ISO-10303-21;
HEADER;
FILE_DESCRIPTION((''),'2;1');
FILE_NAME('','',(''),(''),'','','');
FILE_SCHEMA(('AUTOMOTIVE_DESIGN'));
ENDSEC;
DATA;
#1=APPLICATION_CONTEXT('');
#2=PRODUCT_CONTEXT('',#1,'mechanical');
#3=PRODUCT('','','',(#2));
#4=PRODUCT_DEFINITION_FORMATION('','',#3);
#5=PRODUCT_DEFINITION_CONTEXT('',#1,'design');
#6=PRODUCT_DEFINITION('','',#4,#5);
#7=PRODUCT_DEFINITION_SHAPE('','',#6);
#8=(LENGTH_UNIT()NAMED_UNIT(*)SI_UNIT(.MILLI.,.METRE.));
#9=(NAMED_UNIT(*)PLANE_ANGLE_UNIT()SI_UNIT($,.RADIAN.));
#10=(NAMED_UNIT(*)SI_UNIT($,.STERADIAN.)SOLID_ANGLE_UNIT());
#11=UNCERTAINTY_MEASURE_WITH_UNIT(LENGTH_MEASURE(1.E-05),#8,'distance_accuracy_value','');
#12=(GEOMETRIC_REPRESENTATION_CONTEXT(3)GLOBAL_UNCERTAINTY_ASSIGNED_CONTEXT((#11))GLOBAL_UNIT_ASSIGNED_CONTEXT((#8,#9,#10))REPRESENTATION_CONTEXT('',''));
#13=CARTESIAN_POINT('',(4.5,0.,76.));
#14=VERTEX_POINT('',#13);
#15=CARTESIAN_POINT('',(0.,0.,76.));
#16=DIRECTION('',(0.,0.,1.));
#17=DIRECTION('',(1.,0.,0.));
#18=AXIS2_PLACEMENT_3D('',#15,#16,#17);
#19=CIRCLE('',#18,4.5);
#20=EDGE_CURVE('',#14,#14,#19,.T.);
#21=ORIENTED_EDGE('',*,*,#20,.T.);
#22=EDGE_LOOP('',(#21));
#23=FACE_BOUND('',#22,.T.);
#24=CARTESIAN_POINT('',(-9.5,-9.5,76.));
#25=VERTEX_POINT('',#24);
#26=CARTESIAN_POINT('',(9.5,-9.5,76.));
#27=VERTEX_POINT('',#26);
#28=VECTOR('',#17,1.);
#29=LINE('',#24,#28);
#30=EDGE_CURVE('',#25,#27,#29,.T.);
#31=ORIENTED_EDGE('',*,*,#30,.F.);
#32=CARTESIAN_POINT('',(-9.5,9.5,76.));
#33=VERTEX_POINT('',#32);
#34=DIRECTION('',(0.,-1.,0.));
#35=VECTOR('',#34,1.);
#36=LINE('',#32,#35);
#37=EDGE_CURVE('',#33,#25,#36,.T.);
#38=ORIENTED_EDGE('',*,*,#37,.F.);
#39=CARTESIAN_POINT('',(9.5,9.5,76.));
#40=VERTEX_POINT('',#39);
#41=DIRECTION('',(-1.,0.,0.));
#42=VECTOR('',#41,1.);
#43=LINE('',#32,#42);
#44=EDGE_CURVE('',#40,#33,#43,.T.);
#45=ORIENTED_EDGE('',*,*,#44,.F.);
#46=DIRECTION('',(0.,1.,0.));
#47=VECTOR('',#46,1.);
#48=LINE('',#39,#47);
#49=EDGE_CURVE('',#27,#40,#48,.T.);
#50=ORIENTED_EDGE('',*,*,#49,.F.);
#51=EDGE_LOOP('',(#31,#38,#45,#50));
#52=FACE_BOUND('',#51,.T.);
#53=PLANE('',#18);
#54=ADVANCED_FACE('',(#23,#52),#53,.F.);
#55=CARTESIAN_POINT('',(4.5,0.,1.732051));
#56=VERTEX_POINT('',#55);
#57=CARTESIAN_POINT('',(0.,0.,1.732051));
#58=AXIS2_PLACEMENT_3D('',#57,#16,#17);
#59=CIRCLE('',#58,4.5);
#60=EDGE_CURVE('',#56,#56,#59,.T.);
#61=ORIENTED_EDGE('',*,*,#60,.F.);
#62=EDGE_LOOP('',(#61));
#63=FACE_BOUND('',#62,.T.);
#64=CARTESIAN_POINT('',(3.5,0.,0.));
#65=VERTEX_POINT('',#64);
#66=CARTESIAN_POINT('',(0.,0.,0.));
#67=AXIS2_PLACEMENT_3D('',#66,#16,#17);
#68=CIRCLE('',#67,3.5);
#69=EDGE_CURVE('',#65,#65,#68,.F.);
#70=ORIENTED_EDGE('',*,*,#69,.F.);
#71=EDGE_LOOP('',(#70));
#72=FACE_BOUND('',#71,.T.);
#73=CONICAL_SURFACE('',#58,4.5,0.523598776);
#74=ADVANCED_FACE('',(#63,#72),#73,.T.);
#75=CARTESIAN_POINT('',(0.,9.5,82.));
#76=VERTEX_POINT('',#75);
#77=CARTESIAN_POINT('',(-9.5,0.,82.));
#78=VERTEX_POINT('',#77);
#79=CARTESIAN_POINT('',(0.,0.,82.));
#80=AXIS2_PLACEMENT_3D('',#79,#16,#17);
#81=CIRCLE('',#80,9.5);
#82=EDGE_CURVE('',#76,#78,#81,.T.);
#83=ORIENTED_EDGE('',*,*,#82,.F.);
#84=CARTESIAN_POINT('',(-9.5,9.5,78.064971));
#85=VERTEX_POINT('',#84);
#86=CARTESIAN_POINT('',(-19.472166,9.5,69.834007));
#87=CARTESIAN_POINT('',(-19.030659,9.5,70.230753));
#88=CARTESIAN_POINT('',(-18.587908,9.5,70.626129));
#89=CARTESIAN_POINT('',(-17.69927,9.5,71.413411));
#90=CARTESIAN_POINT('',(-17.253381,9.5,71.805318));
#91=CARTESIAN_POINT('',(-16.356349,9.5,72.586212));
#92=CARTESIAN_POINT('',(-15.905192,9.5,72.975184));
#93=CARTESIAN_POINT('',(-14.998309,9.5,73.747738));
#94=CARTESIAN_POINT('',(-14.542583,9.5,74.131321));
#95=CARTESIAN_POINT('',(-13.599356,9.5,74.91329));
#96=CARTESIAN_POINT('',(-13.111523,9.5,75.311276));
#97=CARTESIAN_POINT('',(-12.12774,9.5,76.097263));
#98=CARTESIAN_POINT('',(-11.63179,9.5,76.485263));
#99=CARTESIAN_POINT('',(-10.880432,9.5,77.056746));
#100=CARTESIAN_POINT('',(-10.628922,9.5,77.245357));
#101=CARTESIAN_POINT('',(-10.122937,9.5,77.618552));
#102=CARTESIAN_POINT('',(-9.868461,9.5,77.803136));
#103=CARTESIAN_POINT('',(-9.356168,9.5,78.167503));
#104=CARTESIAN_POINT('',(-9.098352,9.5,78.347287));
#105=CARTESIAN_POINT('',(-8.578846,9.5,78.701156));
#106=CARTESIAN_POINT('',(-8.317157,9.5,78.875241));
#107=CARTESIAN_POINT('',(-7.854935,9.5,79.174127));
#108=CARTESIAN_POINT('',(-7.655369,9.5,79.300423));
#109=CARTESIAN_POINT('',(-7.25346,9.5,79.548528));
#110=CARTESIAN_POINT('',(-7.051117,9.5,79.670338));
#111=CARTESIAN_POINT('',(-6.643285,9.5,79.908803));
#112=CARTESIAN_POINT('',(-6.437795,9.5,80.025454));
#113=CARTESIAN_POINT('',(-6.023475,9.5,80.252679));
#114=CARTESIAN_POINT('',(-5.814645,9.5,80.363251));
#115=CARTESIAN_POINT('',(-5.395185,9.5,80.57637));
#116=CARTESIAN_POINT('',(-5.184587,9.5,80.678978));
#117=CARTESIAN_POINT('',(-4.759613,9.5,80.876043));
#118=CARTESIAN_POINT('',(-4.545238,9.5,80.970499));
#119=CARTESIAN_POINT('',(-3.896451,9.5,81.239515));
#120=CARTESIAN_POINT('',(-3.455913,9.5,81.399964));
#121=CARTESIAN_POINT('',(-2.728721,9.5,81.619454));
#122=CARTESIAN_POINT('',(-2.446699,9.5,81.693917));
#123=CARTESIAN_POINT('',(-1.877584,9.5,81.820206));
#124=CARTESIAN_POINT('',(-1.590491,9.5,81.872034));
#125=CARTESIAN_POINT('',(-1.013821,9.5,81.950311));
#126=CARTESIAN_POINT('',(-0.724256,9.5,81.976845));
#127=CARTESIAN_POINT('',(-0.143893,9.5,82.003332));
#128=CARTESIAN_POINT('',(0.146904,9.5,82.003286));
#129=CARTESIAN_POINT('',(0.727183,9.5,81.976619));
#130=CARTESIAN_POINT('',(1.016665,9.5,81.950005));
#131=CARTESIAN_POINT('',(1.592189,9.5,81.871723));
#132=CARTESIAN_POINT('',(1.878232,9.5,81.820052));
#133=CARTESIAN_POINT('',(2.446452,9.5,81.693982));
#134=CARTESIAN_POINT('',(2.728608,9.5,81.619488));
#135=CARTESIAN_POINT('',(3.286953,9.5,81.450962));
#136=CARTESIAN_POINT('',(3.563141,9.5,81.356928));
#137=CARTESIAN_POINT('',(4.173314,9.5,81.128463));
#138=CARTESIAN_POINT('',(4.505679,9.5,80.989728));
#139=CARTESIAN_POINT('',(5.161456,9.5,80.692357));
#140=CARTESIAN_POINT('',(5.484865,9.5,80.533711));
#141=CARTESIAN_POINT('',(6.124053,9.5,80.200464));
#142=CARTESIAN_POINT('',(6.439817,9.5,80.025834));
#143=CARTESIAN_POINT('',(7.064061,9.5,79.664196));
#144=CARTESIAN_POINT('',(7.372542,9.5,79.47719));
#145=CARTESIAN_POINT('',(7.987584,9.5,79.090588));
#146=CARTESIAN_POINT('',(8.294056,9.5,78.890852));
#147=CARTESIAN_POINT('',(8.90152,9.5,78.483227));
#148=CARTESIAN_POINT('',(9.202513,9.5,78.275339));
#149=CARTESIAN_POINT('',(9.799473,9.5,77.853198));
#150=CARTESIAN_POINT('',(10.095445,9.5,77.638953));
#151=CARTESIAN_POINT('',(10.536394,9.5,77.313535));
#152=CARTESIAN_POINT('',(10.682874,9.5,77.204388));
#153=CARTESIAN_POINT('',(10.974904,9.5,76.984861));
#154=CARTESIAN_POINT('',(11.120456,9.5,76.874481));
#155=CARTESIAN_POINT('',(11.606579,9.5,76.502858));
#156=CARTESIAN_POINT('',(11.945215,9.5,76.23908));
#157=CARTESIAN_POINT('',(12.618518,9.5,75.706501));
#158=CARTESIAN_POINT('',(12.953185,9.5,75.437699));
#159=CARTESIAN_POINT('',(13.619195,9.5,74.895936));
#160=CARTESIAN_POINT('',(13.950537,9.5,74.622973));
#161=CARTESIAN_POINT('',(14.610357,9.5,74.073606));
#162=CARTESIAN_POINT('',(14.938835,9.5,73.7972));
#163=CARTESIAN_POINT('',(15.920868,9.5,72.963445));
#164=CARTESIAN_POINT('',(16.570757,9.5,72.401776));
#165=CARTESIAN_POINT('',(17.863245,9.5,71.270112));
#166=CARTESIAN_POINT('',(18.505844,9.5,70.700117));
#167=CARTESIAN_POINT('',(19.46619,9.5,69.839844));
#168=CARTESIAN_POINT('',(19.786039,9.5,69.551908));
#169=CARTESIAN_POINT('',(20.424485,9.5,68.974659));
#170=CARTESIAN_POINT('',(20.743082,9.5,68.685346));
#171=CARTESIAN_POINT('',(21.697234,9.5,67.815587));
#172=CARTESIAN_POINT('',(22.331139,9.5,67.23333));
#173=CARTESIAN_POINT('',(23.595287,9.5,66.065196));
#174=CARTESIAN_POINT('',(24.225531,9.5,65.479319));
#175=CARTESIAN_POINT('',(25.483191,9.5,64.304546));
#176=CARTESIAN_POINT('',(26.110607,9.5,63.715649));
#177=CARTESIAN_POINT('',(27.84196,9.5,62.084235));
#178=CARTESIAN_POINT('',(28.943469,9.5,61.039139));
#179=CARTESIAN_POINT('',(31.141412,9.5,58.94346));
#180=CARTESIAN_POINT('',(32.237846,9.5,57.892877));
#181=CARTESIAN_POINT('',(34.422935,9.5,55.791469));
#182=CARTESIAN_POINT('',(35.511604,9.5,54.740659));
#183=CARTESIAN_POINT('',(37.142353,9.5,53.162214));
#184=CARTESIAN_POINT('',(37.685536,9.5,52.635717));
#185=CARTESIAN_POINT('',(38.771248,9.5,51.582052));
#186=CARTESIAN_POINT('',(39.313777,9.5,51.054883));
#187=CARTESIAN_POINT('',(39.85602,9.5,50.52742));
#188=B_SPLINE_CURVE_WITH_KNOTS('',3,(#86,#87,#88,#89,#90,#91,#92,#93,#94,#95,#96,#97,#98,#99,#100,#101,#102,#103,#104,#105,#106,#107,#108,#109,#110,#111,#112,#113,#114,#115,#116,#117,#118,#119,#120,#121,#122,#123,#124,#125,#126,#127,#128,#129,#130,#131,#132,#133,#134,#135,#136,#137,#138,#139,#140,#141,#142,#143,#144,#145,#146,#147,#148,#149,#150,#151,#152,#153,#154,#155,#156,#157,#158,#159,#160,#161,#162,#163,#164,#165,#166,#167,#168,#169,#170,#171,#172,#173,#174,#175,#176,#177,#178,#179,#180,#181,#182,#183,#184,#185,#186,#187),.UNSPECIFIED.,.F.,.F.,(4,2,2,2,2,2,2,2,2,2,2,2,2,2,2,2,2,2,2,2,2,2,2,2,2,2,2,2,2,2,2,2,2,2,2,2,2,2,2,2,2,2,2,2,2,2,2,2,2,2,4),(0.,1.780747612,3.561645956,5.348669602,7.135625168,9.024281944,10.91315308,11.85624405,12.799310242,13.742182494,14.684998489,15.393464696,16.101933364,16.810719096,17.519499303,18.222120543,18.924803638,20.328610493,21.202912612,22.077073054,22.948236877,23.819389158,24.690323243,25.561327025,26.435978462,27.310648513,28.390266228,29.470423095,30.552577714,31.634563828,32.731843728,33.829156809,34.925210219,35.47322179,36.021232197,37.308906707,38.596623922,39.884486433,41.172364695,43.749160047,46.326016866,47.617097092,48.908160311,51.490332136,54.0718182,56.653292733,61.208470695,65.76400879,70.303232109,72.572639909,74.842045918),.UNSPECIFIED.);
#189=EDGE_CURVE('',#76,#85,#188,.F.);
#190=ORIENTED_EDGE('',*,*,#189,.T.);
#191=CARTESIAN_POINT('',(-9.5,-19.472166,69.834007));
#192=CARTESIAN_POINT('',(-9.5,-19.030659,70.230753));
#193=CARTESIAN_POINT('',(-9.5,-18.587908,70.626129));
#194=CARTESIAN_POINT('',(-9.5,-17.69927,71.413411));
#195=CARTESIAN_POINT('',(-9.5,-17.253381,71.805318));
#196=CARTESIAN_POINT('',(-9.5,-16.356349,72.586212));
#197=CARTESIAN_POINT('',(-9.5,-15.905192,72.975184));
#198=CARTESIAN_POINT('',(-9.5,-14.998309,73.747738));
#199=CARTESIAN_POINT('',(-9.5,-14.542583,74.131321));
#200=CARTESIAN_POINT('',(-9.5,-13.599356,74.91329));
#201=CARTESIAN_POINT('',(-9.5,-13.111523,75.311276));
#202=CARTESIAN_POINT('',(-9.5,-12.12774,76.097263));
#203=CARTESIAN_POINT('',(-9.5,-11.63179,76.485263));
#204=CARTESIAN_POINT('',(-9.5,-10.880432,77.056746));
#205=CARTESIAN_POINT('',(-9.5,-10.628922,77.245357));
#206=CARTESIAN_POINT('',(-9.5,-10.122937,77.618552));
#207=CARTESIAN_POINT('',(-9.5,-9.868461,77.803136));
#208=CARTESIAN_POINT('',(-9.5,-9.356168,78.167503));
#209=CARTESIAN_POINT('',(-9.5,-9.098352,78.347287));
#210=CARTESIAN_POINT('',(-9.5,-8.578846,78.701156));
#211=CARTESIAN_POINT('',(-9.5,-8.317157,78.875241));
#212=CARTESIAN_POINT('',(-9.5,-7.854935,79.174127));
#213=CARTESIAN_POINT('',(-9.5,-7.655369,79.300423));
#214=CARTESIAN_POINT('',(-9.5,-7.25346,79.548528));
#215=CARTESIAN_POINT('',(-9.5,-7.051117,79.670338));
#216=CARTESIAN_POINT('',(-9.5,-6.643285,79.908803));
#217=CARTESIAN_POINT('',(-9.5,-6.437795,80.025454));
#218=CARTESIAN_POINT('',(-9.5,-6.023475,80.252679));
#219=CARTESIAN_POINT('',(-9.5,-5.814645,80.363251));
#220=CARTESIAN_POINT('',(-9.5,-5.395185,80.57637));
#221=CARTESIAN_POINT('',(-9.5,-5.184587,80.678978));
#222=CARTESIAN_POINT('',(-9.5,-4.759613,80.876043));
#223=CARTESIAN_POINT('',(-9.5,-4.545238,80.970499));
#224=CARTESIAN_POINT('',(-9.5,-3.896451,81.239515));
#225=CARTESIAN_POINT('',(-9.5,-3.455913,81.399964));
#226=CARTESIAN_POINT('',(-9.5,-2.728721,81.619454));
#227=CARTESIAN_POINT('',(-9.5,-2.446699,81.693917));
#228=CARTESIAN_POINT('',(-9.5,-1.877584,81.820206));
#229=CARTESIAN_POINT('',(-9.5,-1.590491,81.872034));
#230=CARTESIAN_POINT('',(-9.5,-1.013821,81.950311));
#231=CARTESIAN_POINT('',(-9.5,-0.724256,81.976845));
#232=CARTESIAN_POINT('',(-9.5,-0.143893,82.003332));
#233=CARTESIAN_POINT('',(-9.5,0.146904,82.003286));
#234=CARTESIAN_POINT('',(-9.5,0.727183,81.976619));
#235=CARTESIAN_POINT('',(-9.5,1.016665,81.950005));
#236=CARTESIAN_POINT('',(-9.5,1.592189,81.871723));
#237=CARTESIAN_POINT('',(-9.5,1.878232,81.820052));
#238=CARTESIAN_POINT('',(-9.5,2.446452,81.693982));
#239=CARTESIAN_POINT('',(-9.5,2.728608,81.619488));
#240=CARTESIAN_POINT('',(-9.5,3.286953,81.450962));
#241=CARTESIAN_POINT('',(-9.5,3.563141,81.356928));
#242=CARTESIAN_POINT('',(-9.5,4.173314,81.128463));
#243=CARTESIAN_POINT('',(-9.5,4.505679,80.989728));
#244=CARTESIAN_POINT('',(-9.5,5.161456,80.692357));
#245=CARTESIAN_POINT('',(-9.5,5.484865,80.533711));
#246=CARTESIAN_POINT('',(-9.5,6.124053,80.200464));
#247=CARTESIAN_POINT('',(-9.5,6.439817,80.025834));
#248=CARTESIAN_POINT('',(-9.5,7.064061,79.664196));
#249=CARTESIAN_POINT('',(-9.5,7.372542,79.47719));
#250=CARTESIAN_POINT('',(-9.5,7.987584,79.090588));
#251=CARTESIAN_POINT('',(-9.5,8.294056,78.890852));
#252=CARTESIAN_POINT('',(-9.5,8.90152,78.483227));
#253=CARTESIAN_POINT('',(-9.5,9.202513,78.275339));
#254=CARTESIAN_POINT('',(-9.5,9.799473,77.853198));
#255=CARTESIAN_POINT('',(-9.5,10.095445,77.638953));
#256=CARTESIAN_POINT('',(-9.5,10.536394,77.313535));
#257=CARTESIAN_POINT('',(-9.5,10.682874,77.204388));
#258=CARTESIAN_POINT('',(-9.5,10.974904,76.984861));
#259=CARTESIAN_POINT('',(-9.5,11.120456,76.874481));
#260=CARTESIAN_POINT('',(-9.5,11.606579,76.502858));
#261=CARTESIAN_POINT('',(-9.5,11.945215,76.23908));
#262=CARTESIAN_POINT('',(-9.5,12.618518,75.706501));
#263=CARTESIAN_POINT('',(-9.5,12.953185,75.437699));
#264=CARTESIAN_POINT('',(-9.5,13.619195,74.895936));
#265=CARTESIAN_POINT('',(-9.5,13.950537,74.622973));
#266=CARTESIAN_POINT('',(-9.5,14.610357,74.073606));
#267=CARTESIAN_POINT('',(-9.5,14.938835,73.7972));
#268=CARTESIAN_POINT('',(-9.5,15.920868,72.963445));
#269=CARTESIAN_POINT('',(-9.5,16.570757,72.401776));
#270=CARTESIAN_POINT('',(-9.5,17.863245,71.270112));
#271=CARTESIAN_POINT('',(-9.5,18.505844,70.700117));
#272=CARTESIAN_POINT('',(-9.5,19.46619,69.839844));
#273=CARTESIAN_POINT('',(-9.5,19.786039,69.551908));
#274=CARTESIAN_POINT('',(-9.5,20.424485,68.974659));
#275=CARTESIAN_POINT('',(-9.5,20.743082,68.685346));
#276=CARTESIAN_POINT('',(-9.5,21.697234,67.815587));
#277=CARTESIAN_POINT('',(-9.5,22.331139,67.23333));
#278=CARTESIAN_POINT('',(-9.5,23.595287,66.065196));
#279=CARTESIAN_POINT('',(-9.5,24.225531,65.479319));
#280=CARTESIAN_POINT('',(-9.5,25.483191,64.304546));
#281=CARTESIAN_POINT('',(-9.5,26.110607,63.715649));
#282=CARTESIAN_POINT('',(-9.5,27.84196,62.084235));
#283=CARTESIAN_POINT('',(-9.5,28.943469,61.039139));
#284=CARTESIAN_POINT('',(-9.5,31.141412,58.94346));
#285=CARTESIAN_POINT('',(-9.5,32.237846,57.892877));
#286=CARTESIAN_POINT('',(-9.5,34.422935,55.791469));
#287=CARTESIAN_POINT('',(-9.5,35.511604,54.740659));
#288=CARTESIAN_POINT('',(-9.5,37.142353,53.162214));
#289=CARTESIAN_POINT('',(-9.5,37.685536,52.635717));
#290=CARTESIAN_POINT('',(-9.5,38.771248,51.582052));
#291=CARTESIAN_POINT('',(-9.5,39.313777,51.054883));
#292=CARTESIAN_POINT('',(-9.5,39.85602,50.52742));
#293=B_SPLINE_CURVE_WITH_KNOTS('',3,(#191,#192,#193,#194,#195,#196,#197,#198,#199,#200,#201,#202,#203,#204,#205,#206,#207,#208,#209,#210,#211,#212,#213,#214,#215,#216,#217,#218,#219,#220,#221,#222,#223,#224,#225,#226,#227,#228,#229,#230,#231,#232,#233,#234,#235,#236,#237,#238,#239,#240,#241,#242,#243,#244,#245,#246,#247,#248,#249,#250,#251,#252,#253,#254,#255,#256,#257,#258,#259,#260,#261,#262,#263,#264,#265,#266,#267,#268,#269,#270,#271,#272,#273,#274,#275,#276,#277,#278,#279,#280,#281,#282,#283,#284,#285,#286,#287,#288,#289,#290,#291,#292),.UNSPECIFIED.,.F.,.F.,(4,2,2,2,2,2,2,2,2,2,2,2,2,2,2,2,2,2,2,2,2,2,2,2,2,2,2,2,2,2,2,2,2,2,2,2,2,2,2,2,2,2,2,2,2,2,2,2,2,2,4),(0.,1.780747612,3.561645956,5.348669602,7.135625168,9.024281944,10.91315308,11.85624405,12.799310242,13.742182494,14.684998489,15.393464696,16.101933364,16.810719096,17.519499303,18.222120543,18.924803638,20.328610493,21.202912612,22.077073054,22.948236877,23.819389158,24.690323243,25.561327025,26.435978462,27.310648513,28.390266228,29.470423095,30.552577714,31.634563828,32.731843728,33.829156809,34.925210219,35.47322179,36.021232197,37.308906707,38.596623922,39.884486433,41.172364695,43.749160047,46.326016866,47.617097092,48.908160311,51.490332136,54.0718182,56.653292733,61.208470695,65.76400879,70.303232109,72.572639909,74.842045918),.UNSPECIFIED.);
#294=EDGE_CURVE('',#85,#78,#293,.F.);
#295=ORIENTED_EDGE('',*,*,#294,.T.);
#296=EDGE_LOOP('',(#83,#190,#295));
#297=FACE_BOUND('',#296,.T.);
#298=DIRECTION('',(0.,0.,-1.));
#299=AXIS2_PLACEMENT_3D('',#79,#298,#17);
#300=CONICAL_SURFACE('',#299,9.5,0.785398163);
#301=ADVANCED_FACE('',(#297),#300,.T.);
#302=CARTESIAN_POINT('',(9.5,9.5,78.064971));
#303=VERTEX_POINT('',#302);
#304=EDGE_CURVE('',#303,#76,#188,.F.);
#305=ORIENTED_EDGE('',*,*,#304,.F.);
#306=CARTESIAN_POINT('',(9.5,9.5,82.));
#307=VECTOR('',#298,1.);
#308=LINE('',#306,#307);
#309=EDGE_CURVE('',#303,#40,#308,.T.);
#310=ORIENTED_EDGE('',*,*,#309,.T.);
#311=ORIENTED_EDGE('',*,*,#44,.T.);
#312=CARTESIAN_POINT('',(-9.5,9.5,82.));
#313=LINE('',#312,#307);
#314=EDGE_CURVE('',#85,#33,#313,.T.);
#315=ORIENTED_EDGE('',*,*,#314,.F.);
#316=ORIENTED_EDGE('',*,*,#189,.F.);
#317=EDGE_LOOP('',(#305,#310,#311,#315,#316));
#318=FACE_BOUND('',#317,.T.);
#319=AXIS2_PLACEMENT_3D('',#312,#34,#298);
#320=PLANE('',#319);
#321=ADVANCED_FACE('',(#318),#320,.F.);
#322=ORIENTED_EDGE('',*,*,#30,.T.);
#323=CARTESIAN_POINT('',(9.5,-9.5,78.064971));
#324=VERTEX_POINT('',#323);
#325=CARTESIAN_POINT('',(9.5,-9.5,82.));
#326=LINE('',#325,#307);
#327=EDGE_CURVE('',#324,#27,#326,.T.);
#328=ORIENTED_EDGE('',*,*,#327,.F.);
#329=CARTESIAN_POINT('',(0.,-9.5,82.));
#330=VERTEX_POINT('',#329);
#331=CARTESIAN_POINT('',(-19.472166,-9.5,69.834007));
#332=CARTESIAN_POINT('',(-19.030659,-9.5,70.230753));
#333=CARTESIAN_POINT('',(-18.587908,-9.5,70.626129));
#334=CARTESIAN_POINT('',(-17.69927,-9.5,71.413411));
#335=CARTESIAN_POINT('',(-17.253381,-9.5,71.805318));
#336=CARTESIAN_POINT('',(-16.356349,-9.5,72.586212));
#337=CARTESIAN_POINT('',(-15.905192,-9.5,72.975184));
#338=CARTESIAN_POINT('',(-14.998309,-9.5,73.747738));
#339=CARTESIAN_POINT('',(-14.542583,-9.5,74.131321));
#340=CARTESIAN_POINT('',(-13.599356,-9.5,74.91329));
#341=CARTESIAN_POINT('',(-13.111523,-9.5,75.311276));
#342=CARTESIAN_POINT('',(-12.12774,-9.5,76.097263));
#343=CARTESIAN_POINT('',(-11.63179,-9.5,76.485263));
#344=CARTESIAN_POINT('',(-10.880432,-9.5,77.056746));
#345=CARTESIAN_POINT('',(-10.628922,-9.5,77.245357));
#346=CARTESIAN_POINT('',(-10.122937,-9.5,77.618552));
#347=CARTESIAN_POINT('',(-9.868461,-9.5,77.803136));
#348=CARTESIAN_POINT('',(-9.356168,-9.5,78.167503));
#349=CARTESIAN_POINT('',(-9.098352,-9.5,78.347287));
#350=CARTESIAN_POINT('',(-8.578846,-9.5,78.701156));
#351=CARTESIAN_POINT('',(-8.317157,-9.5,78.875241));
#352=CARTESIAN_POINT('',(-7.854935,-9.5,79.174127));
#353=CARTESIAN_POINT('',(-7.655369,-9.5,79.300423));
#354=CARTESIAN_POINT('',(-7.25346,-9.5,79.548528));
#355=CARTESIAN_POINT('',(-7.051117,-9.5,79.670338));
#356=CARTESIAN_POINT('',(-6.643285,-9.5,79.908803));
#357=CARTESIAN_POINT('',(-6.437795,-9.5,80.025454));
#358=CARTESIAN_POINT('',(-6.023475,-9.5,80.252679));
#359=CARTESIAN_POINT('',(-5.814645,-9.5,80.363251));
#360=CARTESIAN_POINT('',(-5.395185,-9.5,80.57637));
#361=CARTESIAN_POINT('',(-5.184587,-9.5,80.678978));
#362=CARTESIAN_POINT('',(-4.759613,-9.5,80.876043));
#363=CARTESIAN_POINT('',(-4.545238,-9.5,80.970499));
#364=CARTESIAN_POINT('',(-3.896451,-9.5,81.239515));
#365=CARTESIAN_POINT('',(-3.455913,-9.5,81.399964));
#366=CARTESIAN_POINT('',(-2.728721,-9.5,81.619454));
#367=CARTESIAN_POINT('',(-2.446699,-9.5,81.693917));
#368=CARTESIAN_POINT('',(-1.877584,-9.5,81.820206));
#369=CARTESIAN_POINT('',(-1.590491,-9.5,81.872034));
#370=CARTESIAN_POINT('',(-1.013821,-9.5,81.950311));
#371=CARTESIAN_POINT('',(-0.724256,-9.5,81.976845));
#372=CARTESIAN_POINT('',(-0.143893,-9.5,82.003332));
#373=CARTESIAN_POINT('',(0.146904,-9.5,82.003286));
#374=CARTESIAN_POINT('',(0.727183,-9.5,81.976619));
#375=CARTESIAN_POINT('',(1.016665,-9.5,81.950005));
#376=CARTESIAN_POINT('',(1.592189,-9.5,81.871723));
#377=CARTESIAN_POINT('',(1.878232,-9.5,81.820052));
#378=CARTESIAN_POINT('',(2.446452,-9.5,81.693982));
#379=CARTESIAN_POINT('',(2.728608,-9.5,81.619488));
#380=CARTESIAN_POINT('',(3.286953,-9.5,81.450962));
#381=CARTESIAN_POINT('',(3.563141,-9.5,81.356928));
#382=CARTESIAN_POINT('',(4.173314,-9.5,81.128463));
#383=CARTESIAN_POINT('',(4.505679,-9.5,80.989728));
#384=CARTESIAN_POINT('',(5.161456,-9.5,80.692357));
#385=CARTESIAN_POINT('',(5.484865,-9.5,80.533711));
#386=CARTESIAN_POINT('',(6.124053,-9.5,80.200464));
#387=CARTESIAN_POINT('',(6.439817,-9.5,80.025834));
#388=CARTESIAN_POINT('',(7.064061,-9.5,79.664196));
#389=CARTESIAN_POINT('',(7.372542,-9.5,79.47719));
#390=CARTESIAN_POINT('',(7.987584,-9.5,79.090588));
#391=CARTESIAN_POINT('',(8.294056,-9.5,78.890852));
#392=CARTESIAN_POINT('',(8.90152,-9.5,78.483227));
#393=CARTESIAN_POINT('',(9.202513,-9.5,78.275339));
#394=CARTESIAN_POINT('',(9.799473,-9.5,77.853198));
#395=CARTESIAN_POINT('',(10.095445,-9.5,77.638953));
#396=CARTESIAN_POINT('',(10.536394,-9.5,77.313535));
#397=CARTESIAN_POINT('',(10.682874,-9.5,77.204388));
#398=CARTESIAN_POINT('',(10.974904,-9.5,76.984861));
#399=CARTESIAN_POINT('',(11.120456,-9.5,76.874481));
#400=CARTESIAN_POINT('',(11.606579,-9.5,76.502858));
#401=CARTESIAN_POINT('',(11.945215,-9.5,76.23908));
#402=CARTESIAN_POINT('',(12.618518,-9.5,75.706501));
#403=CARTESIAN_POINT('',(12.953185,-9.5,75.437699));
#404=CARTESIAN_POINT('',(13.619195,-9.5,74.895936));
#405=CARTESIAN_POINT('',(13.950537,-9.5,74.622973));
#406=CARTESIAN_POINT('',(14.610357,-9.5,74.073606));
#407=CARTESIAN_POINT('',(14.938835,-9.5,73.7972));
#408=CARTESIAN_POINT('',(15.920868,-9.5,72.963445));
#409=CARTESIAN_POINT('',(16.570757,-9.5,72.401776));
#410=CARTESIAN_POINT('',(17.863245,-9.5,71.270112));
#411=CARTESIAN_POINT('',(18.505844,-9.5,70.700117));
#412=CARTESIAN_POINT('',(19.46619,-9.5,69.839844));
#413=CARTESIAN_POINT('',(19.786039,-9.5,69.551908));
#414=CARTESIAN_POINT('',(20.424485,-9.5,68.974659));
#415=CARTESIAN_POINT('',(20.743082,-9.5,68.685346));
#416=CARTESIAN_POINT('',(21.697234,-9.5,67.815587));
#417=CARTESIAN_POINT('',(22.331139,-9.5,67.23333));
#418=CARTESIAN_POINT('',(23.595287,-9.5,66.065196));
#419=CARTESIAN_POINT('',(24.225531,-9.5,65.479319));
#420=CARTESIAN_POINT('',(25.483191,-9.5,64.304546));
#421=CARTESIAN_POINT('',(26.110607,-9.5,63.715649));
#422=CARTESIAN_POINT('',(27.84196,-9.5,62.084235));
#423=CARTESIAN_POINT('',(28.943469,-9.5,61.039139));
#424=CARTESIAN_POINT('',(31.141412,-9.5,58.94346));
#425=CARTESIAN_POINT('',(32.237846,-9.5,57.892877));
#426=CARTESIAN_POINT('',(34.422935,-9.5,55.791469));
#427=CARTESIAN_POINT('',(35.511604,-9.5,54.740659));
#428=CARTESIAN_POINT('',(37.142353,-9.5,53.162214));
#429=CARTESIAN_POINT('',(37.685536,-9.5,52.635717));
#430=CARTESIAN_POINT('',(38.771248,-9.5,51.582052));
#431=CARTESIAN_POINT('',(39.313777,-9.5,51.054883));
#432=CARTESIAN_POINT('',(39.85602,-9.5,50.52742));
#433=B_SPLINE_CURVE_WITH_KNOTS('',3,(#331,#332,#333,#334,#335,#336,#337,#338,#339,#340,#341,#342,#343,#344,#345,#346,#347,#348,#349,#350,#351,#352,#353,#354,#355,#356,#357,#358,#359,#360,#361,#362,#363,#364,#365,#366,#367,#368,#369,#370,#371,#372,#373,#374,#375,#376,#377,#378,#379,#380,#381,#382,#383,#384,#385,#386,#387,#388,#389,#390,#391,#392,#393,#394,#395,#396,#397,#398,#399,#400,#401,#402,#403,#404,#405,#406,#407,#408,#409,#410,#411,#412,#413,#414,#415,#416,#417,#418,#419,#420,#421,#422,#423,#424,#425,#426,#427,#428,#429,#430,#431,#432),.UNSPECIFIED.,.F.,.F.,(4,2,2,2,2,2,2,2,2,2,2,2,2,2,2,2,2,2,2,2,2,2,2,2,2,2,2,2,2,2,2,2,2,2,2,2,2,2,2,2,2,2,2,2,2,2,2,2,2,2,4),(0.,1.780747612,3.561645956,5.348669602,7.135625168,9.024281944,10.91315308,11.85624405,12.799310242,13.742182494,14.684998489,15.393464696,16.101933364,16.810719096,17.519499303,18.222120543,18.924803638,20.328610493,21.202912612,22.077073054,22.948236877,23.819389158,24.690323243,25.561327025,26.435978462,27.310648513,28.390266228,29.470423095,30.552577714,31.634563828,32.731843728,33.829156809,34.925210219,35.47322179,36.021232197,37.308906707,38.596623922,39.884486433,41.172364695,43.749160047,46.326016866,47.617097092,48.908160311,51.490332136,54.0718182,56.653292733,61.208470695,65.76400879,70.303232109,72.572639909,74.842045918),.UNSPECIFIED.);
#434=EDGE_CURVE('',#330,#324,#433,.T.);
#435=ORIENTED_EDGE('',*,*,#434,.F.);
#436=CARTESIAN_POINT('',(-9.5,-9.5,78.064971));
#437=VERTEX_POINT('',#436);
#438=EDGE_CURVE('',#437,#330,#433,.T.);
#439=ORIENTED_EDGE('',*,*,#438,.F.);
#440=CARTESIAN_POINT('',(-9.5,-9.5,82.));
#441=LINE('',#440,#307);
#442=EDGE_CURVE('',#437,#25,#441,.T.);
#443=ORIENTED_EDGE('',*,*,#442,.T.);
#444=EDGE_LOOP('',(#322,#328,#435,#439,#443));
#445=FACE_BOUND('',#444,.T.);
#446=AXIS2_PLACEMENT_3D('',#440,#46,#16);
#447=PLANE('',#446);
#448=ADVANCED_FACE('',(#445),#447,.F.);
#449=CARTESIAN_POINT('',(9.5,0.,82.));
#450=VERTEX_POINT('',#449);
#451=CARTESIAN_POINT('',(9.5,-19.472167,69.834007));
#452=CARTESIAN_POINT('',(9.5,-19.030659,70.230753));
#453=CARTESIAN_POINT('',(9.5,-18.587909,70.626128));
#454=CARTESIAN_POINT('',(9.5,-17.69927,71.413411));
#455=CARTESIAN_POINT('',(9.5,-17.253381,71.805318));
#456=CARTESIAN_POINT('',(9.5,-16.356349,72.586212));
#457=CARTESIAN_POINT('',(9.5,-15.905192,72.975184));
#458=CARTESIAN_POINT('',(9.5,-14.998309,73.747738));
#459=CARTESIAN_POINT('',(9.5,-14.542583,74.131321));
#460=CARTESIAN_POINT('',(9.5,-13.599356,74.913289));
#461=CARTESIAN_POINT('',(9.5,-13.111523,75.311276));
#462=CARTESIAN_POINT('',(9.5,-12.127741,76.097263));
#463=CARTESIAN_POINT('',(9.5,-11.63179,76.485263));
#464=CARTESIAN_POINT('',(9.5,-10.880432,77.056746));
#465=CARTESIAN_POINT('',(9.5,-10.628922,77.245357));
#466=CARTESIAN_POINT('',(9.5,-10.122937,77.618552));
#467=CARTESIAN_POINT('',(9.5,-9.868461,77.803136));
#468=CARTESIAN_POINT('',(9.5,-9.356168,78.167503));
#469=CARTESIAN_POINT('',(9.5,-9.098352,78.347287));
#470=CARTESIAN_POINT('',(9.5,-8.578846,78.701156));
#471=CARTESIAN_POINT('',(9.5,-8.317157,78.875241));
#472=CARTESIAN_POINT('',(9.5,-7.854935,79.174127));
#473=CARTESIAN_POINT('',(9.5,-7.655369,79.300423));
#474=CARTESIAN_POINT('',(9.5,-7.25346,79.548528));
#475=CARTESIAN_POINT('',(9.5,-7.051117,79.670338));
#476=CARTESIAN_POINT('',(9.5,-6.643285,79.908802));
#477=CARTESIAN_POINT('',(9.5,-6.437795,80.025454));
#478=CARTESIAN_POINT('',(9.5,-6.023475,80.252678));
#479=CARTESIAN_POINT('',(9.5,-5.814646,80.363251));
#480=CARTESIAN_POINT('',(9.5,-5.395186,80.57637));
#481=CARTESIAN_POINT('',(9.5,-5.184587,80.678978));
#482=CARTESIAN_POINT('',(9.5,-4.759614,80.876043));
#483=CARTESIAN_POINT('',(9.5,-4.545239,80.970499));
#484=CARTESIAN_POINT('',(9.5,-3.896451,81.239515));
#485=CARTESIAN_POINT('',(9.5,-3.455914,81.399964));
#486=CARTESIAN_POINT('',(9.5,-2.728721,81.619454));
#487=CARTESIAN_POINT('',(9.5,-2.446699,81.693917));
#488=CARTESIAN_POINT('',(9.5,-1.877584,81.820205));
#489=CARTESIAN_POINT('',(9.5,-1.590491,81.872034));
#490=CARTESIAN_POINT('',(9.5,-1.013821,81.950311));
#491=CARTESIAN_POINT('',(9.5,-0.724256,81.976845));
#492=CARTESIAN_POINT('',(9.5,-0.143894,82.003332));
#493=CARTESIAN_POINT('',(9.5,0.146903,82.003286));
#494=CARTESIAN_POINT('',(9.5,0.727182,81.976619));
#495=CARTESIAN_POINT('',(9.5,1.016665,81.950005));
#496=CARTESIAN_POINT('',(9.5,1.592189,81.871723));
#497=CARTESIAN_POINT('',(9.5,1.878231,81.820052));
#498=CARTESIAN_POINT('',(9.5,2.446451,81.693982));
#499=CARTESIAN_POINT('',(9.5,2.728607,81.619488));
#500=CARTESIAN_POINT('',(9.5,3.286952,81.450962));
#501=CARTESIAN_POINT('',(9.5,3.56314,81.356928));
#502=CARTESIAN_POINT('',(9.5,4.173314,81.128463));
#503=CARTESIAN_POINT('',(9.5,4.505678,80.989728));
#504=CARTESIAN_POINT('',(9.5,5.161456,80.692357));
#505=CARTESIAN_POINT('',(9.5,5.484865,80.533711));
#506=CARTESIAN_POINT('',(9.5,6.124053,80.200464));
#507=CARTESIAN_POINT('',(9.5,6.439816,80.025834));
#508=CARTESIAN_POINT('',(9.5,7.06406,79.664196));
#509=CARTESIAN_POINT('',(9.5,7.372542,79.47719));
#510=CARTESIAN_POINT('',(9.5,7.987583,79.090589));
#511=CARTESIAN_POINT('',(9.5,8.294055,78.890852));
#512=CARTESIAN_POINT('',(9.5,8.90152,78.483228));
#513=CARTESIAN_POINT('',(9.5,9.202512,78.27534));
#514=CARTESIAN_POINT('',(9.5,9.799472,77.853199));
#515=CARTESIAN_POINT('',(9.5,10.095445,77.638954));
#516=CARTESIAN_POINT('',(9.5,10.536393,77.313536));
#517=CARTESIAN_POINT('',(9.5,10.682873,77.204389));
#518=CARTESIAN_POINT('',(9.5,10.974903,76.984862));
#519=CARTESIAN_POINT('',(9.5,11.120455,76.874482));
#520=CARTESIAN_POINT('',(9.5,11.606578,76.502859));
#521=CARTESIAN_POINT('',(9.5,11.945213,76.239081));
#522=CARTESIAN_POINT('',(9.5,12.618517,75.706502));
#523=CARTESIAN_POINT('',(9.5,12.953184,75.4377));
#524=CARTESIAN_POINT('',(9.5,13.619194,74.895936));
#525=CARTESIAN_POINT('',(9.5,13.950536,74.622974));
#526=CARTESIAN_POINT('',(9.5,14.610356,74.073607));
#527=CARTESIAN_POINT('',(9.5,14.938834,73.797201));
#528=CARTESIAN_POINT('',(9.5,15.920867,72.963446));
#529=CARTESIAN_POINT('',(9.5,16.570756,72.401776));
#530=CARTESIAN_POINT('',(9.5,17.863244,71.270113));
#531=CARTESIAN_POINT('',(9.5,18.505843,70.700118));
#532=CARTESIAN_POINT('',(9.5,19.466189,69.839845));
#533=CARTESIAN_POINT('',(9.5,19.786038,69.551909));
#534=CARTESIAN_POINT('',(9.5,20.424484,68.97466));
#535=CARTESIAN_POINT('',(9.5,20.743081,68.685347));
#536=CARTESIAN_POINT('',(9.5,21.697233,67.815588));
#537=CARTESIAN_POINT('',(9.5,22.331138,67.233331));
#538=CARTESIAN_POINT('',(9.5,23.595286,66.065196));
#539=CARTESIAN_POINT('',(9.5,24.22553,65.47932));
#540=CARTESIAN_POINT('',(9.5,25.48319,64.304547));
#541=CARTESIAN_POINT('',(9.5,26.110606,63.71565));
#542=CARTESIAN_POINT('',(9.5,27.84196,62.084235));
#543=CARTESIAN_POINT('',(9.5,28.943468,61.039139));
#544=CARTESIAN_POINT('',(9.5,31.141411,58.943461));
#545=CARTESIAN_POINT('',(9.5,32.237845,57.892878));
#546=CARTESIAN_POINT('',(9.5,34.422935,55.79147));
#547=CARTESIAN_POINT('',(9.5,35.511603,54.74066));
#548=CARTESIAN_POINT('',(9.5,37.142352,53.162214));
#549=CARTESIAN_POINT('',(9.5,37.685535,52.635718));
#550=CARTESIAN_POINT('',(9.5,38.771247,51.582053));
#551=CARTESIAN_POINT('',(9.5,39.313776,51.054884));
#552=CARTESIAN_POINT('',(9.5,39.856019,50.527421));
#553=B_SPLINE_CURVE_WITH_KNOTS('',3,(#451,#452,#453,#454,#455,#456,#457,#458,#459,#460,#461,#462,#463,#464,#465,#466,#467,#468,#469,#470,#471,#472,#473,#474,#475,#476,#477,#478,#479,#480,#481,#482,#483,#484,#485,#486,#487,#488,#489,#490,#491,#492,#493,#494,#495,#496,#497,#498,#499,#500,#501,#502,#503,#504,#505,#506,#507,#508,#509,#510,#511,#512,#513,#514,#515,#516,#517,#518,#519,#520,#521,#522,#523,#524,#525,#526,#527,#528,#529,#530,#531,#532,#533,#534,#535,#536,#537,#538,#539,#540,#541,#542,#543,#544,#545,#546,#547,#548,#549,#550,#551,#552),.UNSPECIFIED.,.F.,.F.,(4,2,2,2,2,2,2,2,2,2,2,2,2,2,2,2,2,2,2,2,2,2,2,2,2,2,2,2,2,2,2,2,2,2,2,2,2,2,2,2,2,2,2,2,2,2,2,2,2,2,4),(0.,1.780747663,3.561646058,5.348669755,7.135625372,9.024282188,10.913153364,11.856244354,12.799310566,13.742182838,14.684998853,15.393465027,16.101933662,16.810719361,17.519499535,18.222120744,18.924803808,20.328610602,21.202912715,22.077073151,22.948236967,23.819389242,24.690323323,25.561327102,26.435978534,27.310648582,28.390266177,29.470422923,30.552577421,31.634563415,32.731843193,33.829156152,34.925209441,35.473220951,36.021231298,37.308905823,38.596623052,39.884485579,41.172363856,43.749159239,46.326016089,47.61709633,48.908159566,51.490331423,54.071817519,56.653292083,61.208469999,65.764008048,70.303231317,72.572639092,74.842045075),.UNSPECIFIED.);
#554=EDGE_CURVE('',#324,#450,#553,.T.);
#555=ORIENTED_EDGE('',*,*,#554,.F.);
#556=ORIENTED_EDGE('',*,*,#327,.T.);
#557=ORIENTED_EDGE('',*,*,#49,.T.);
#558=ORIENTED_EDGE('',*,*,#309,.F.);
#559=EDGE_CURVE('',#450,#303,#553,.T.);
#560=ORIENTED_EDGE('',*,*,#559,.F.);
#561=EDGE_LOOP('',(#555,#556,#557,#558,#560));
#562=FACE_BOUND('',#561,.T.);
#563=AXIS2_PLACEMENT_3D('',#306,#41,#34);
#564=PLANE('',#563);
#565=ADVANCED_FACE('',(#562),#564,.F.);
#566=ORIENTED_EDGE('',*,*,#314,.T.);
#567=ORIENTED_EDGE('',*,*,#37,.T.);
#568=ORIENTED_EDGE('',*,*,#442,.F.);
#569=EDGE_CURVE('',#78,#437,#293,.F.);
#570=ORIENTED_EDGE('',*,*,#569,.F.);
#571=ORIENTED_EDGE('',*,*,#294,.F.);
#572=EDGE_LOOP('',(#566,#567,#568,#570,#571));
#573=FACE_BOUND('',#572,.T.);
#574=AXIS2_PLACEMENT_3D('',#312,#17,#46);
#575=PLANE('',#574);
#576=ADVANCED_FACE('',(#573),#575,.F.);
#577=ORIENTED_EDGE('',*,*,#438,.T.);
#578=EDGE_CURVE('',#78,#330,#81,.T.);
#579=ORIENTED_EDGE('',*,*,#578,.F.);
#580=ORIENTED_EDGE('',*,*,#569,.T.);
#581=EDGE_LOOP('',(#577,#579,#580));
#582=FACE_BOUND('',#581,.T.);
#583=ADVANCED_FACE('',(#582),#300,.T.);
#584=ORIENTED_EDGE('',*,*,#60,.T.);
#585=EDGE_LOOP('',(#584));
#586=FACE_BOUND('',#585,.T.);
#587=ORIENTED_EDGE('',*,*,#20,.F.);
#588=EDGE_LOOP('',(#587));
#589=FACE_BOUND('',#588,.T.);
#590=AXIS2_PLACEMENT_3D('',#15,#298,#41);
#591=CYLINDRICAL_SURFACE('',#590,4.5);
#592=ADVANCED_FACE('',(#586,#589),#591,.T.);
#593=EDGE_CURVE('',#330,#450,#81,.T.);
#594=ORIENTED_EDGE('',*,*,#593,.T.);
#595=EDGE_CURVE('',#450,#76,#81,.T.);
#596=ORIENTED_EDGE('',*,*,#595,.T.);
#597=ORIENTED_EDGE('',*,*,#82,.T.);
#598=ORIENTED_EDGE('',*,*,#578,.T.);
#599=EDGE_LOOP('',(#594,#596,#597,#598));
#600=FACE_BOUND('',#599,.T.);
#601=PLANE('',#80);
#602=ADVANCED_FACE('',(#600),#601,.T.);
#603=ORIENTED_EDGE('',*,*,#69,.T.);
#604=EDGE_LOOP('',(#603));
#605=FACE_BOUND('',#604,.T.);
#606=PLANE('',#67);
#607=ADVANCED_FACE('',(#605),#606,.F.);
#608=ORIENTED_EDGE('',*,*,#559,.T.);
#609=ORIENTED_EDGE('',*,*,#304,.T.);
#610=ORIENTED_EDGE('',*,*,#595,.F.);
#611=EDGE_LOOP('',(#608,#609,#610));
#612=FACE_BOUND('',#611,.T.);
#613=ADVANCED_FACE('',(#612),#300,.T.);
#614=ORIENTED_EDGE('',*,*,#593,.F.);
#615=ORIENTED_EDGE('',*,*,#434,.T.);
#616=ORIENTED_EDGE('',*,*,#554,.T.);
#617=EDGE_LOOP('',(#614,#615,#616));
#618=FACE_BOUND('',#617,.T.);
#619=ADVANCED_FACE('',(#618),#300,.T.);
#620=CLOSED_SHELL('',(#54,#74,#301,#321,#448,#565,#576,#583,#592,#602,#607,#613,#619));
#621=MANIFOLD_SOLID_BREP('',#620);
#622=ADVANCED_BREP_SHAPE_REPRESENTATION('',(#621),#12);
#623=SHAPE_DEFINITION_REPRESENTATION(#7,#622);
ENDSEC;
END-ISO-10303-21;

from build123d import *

# Parameters (mm, degrees)
SKETCH2_R           = 4.5
BOSS_EXTRUDE1_DEPTH = 76
SKETCH3_W           = 19
SKETCH3_H           = 19
BOSS_EXTRUDE2_DEPTH = 6
CHAMFER1_SIZE       = 1
CHAMFER1_SIZE2      = 1.732050808
SKETCH4_OUTSIDE_W   = 50.258
SKETCH4_OUTSIDE_H   = 50.258
SKETCH4_OUTSIDE_R   = 9.5
CUT_EXTRUDE1_DEPTH  = 6
CUT_EXTRUDE1_DRAFT  = -45


with BuildPart() as part:
    # Sketch2 → Boss-Extrude1 (new body)
    with BuildSketch(Plane.XY):
        Circle(SKETCH2_R)
    extrude(amount=BOSS_EXTRUDE1_DEPTH)

    # Sketch3 → Boss-Extrude2 (add)
    with BuildSketch(Plane.XY.offset(76)):
        Rectangle(SKETCH3_W, SKETCH3_H)
    extrude(amount=BOSS_EXTRUDE2_DEPTH)

    # Chamfer1
    chamfer1_edges = [part.edges().sort_by_distance(p)[0] for p in [
        (-4.5, 0, 0),
    ]]
    chamfer1_side = [part.faces().sort_by_distance(p)[0] for p in [
        (0, 0, 0),
    ]]
    chamfer(chamfer1_edges, length=CHAMFER1_SIZE, length2=CHAMFER1_SIZE2, reference=chamfer1_side[0])


with BuildPart() as cut_extrude1_tool:
    # Sketch4 outside → Cut-Extrude1 (with draft: the straight prism first)
    with BuildSketch(Plane.XY.offset(82)):
        Rectangle(SKETCH4_OUTSIDE_W, SKETCH4_OUTSIDE_H)
        Circle(SKETCH4_OUTSIDE_R, mode=Mode.SUBTRACT)
    extrude(amount=-CUT_EXTRUDE1_DEPTH)
    # Cut-Extrude1: the draft: its side faces are tilted about the plane it starts from
    cut_extrude1_sides = [cut_extrude1_tool.faces().sort_by_distance(p)[0] for p in [
        (0, -25.129, 79),
        (25.129, 0, 79),
        (0, 25.129, 79),
        (-25.129, 0, 79),
        (-9.5, 0, 79),
    ]]
    draft(cut_extrude1_sides, Plane.XY.offset(82), CUT_EXTRUDE1_DRAFT)


with BuildPart() as part_1:
    add(part.part)

    # Cut-Extrude1: cut by cut_extrude1_tool
    add(cut_extrude1_tool.part, mode=Mode.SUBTRACT)


solid = part_1.part
